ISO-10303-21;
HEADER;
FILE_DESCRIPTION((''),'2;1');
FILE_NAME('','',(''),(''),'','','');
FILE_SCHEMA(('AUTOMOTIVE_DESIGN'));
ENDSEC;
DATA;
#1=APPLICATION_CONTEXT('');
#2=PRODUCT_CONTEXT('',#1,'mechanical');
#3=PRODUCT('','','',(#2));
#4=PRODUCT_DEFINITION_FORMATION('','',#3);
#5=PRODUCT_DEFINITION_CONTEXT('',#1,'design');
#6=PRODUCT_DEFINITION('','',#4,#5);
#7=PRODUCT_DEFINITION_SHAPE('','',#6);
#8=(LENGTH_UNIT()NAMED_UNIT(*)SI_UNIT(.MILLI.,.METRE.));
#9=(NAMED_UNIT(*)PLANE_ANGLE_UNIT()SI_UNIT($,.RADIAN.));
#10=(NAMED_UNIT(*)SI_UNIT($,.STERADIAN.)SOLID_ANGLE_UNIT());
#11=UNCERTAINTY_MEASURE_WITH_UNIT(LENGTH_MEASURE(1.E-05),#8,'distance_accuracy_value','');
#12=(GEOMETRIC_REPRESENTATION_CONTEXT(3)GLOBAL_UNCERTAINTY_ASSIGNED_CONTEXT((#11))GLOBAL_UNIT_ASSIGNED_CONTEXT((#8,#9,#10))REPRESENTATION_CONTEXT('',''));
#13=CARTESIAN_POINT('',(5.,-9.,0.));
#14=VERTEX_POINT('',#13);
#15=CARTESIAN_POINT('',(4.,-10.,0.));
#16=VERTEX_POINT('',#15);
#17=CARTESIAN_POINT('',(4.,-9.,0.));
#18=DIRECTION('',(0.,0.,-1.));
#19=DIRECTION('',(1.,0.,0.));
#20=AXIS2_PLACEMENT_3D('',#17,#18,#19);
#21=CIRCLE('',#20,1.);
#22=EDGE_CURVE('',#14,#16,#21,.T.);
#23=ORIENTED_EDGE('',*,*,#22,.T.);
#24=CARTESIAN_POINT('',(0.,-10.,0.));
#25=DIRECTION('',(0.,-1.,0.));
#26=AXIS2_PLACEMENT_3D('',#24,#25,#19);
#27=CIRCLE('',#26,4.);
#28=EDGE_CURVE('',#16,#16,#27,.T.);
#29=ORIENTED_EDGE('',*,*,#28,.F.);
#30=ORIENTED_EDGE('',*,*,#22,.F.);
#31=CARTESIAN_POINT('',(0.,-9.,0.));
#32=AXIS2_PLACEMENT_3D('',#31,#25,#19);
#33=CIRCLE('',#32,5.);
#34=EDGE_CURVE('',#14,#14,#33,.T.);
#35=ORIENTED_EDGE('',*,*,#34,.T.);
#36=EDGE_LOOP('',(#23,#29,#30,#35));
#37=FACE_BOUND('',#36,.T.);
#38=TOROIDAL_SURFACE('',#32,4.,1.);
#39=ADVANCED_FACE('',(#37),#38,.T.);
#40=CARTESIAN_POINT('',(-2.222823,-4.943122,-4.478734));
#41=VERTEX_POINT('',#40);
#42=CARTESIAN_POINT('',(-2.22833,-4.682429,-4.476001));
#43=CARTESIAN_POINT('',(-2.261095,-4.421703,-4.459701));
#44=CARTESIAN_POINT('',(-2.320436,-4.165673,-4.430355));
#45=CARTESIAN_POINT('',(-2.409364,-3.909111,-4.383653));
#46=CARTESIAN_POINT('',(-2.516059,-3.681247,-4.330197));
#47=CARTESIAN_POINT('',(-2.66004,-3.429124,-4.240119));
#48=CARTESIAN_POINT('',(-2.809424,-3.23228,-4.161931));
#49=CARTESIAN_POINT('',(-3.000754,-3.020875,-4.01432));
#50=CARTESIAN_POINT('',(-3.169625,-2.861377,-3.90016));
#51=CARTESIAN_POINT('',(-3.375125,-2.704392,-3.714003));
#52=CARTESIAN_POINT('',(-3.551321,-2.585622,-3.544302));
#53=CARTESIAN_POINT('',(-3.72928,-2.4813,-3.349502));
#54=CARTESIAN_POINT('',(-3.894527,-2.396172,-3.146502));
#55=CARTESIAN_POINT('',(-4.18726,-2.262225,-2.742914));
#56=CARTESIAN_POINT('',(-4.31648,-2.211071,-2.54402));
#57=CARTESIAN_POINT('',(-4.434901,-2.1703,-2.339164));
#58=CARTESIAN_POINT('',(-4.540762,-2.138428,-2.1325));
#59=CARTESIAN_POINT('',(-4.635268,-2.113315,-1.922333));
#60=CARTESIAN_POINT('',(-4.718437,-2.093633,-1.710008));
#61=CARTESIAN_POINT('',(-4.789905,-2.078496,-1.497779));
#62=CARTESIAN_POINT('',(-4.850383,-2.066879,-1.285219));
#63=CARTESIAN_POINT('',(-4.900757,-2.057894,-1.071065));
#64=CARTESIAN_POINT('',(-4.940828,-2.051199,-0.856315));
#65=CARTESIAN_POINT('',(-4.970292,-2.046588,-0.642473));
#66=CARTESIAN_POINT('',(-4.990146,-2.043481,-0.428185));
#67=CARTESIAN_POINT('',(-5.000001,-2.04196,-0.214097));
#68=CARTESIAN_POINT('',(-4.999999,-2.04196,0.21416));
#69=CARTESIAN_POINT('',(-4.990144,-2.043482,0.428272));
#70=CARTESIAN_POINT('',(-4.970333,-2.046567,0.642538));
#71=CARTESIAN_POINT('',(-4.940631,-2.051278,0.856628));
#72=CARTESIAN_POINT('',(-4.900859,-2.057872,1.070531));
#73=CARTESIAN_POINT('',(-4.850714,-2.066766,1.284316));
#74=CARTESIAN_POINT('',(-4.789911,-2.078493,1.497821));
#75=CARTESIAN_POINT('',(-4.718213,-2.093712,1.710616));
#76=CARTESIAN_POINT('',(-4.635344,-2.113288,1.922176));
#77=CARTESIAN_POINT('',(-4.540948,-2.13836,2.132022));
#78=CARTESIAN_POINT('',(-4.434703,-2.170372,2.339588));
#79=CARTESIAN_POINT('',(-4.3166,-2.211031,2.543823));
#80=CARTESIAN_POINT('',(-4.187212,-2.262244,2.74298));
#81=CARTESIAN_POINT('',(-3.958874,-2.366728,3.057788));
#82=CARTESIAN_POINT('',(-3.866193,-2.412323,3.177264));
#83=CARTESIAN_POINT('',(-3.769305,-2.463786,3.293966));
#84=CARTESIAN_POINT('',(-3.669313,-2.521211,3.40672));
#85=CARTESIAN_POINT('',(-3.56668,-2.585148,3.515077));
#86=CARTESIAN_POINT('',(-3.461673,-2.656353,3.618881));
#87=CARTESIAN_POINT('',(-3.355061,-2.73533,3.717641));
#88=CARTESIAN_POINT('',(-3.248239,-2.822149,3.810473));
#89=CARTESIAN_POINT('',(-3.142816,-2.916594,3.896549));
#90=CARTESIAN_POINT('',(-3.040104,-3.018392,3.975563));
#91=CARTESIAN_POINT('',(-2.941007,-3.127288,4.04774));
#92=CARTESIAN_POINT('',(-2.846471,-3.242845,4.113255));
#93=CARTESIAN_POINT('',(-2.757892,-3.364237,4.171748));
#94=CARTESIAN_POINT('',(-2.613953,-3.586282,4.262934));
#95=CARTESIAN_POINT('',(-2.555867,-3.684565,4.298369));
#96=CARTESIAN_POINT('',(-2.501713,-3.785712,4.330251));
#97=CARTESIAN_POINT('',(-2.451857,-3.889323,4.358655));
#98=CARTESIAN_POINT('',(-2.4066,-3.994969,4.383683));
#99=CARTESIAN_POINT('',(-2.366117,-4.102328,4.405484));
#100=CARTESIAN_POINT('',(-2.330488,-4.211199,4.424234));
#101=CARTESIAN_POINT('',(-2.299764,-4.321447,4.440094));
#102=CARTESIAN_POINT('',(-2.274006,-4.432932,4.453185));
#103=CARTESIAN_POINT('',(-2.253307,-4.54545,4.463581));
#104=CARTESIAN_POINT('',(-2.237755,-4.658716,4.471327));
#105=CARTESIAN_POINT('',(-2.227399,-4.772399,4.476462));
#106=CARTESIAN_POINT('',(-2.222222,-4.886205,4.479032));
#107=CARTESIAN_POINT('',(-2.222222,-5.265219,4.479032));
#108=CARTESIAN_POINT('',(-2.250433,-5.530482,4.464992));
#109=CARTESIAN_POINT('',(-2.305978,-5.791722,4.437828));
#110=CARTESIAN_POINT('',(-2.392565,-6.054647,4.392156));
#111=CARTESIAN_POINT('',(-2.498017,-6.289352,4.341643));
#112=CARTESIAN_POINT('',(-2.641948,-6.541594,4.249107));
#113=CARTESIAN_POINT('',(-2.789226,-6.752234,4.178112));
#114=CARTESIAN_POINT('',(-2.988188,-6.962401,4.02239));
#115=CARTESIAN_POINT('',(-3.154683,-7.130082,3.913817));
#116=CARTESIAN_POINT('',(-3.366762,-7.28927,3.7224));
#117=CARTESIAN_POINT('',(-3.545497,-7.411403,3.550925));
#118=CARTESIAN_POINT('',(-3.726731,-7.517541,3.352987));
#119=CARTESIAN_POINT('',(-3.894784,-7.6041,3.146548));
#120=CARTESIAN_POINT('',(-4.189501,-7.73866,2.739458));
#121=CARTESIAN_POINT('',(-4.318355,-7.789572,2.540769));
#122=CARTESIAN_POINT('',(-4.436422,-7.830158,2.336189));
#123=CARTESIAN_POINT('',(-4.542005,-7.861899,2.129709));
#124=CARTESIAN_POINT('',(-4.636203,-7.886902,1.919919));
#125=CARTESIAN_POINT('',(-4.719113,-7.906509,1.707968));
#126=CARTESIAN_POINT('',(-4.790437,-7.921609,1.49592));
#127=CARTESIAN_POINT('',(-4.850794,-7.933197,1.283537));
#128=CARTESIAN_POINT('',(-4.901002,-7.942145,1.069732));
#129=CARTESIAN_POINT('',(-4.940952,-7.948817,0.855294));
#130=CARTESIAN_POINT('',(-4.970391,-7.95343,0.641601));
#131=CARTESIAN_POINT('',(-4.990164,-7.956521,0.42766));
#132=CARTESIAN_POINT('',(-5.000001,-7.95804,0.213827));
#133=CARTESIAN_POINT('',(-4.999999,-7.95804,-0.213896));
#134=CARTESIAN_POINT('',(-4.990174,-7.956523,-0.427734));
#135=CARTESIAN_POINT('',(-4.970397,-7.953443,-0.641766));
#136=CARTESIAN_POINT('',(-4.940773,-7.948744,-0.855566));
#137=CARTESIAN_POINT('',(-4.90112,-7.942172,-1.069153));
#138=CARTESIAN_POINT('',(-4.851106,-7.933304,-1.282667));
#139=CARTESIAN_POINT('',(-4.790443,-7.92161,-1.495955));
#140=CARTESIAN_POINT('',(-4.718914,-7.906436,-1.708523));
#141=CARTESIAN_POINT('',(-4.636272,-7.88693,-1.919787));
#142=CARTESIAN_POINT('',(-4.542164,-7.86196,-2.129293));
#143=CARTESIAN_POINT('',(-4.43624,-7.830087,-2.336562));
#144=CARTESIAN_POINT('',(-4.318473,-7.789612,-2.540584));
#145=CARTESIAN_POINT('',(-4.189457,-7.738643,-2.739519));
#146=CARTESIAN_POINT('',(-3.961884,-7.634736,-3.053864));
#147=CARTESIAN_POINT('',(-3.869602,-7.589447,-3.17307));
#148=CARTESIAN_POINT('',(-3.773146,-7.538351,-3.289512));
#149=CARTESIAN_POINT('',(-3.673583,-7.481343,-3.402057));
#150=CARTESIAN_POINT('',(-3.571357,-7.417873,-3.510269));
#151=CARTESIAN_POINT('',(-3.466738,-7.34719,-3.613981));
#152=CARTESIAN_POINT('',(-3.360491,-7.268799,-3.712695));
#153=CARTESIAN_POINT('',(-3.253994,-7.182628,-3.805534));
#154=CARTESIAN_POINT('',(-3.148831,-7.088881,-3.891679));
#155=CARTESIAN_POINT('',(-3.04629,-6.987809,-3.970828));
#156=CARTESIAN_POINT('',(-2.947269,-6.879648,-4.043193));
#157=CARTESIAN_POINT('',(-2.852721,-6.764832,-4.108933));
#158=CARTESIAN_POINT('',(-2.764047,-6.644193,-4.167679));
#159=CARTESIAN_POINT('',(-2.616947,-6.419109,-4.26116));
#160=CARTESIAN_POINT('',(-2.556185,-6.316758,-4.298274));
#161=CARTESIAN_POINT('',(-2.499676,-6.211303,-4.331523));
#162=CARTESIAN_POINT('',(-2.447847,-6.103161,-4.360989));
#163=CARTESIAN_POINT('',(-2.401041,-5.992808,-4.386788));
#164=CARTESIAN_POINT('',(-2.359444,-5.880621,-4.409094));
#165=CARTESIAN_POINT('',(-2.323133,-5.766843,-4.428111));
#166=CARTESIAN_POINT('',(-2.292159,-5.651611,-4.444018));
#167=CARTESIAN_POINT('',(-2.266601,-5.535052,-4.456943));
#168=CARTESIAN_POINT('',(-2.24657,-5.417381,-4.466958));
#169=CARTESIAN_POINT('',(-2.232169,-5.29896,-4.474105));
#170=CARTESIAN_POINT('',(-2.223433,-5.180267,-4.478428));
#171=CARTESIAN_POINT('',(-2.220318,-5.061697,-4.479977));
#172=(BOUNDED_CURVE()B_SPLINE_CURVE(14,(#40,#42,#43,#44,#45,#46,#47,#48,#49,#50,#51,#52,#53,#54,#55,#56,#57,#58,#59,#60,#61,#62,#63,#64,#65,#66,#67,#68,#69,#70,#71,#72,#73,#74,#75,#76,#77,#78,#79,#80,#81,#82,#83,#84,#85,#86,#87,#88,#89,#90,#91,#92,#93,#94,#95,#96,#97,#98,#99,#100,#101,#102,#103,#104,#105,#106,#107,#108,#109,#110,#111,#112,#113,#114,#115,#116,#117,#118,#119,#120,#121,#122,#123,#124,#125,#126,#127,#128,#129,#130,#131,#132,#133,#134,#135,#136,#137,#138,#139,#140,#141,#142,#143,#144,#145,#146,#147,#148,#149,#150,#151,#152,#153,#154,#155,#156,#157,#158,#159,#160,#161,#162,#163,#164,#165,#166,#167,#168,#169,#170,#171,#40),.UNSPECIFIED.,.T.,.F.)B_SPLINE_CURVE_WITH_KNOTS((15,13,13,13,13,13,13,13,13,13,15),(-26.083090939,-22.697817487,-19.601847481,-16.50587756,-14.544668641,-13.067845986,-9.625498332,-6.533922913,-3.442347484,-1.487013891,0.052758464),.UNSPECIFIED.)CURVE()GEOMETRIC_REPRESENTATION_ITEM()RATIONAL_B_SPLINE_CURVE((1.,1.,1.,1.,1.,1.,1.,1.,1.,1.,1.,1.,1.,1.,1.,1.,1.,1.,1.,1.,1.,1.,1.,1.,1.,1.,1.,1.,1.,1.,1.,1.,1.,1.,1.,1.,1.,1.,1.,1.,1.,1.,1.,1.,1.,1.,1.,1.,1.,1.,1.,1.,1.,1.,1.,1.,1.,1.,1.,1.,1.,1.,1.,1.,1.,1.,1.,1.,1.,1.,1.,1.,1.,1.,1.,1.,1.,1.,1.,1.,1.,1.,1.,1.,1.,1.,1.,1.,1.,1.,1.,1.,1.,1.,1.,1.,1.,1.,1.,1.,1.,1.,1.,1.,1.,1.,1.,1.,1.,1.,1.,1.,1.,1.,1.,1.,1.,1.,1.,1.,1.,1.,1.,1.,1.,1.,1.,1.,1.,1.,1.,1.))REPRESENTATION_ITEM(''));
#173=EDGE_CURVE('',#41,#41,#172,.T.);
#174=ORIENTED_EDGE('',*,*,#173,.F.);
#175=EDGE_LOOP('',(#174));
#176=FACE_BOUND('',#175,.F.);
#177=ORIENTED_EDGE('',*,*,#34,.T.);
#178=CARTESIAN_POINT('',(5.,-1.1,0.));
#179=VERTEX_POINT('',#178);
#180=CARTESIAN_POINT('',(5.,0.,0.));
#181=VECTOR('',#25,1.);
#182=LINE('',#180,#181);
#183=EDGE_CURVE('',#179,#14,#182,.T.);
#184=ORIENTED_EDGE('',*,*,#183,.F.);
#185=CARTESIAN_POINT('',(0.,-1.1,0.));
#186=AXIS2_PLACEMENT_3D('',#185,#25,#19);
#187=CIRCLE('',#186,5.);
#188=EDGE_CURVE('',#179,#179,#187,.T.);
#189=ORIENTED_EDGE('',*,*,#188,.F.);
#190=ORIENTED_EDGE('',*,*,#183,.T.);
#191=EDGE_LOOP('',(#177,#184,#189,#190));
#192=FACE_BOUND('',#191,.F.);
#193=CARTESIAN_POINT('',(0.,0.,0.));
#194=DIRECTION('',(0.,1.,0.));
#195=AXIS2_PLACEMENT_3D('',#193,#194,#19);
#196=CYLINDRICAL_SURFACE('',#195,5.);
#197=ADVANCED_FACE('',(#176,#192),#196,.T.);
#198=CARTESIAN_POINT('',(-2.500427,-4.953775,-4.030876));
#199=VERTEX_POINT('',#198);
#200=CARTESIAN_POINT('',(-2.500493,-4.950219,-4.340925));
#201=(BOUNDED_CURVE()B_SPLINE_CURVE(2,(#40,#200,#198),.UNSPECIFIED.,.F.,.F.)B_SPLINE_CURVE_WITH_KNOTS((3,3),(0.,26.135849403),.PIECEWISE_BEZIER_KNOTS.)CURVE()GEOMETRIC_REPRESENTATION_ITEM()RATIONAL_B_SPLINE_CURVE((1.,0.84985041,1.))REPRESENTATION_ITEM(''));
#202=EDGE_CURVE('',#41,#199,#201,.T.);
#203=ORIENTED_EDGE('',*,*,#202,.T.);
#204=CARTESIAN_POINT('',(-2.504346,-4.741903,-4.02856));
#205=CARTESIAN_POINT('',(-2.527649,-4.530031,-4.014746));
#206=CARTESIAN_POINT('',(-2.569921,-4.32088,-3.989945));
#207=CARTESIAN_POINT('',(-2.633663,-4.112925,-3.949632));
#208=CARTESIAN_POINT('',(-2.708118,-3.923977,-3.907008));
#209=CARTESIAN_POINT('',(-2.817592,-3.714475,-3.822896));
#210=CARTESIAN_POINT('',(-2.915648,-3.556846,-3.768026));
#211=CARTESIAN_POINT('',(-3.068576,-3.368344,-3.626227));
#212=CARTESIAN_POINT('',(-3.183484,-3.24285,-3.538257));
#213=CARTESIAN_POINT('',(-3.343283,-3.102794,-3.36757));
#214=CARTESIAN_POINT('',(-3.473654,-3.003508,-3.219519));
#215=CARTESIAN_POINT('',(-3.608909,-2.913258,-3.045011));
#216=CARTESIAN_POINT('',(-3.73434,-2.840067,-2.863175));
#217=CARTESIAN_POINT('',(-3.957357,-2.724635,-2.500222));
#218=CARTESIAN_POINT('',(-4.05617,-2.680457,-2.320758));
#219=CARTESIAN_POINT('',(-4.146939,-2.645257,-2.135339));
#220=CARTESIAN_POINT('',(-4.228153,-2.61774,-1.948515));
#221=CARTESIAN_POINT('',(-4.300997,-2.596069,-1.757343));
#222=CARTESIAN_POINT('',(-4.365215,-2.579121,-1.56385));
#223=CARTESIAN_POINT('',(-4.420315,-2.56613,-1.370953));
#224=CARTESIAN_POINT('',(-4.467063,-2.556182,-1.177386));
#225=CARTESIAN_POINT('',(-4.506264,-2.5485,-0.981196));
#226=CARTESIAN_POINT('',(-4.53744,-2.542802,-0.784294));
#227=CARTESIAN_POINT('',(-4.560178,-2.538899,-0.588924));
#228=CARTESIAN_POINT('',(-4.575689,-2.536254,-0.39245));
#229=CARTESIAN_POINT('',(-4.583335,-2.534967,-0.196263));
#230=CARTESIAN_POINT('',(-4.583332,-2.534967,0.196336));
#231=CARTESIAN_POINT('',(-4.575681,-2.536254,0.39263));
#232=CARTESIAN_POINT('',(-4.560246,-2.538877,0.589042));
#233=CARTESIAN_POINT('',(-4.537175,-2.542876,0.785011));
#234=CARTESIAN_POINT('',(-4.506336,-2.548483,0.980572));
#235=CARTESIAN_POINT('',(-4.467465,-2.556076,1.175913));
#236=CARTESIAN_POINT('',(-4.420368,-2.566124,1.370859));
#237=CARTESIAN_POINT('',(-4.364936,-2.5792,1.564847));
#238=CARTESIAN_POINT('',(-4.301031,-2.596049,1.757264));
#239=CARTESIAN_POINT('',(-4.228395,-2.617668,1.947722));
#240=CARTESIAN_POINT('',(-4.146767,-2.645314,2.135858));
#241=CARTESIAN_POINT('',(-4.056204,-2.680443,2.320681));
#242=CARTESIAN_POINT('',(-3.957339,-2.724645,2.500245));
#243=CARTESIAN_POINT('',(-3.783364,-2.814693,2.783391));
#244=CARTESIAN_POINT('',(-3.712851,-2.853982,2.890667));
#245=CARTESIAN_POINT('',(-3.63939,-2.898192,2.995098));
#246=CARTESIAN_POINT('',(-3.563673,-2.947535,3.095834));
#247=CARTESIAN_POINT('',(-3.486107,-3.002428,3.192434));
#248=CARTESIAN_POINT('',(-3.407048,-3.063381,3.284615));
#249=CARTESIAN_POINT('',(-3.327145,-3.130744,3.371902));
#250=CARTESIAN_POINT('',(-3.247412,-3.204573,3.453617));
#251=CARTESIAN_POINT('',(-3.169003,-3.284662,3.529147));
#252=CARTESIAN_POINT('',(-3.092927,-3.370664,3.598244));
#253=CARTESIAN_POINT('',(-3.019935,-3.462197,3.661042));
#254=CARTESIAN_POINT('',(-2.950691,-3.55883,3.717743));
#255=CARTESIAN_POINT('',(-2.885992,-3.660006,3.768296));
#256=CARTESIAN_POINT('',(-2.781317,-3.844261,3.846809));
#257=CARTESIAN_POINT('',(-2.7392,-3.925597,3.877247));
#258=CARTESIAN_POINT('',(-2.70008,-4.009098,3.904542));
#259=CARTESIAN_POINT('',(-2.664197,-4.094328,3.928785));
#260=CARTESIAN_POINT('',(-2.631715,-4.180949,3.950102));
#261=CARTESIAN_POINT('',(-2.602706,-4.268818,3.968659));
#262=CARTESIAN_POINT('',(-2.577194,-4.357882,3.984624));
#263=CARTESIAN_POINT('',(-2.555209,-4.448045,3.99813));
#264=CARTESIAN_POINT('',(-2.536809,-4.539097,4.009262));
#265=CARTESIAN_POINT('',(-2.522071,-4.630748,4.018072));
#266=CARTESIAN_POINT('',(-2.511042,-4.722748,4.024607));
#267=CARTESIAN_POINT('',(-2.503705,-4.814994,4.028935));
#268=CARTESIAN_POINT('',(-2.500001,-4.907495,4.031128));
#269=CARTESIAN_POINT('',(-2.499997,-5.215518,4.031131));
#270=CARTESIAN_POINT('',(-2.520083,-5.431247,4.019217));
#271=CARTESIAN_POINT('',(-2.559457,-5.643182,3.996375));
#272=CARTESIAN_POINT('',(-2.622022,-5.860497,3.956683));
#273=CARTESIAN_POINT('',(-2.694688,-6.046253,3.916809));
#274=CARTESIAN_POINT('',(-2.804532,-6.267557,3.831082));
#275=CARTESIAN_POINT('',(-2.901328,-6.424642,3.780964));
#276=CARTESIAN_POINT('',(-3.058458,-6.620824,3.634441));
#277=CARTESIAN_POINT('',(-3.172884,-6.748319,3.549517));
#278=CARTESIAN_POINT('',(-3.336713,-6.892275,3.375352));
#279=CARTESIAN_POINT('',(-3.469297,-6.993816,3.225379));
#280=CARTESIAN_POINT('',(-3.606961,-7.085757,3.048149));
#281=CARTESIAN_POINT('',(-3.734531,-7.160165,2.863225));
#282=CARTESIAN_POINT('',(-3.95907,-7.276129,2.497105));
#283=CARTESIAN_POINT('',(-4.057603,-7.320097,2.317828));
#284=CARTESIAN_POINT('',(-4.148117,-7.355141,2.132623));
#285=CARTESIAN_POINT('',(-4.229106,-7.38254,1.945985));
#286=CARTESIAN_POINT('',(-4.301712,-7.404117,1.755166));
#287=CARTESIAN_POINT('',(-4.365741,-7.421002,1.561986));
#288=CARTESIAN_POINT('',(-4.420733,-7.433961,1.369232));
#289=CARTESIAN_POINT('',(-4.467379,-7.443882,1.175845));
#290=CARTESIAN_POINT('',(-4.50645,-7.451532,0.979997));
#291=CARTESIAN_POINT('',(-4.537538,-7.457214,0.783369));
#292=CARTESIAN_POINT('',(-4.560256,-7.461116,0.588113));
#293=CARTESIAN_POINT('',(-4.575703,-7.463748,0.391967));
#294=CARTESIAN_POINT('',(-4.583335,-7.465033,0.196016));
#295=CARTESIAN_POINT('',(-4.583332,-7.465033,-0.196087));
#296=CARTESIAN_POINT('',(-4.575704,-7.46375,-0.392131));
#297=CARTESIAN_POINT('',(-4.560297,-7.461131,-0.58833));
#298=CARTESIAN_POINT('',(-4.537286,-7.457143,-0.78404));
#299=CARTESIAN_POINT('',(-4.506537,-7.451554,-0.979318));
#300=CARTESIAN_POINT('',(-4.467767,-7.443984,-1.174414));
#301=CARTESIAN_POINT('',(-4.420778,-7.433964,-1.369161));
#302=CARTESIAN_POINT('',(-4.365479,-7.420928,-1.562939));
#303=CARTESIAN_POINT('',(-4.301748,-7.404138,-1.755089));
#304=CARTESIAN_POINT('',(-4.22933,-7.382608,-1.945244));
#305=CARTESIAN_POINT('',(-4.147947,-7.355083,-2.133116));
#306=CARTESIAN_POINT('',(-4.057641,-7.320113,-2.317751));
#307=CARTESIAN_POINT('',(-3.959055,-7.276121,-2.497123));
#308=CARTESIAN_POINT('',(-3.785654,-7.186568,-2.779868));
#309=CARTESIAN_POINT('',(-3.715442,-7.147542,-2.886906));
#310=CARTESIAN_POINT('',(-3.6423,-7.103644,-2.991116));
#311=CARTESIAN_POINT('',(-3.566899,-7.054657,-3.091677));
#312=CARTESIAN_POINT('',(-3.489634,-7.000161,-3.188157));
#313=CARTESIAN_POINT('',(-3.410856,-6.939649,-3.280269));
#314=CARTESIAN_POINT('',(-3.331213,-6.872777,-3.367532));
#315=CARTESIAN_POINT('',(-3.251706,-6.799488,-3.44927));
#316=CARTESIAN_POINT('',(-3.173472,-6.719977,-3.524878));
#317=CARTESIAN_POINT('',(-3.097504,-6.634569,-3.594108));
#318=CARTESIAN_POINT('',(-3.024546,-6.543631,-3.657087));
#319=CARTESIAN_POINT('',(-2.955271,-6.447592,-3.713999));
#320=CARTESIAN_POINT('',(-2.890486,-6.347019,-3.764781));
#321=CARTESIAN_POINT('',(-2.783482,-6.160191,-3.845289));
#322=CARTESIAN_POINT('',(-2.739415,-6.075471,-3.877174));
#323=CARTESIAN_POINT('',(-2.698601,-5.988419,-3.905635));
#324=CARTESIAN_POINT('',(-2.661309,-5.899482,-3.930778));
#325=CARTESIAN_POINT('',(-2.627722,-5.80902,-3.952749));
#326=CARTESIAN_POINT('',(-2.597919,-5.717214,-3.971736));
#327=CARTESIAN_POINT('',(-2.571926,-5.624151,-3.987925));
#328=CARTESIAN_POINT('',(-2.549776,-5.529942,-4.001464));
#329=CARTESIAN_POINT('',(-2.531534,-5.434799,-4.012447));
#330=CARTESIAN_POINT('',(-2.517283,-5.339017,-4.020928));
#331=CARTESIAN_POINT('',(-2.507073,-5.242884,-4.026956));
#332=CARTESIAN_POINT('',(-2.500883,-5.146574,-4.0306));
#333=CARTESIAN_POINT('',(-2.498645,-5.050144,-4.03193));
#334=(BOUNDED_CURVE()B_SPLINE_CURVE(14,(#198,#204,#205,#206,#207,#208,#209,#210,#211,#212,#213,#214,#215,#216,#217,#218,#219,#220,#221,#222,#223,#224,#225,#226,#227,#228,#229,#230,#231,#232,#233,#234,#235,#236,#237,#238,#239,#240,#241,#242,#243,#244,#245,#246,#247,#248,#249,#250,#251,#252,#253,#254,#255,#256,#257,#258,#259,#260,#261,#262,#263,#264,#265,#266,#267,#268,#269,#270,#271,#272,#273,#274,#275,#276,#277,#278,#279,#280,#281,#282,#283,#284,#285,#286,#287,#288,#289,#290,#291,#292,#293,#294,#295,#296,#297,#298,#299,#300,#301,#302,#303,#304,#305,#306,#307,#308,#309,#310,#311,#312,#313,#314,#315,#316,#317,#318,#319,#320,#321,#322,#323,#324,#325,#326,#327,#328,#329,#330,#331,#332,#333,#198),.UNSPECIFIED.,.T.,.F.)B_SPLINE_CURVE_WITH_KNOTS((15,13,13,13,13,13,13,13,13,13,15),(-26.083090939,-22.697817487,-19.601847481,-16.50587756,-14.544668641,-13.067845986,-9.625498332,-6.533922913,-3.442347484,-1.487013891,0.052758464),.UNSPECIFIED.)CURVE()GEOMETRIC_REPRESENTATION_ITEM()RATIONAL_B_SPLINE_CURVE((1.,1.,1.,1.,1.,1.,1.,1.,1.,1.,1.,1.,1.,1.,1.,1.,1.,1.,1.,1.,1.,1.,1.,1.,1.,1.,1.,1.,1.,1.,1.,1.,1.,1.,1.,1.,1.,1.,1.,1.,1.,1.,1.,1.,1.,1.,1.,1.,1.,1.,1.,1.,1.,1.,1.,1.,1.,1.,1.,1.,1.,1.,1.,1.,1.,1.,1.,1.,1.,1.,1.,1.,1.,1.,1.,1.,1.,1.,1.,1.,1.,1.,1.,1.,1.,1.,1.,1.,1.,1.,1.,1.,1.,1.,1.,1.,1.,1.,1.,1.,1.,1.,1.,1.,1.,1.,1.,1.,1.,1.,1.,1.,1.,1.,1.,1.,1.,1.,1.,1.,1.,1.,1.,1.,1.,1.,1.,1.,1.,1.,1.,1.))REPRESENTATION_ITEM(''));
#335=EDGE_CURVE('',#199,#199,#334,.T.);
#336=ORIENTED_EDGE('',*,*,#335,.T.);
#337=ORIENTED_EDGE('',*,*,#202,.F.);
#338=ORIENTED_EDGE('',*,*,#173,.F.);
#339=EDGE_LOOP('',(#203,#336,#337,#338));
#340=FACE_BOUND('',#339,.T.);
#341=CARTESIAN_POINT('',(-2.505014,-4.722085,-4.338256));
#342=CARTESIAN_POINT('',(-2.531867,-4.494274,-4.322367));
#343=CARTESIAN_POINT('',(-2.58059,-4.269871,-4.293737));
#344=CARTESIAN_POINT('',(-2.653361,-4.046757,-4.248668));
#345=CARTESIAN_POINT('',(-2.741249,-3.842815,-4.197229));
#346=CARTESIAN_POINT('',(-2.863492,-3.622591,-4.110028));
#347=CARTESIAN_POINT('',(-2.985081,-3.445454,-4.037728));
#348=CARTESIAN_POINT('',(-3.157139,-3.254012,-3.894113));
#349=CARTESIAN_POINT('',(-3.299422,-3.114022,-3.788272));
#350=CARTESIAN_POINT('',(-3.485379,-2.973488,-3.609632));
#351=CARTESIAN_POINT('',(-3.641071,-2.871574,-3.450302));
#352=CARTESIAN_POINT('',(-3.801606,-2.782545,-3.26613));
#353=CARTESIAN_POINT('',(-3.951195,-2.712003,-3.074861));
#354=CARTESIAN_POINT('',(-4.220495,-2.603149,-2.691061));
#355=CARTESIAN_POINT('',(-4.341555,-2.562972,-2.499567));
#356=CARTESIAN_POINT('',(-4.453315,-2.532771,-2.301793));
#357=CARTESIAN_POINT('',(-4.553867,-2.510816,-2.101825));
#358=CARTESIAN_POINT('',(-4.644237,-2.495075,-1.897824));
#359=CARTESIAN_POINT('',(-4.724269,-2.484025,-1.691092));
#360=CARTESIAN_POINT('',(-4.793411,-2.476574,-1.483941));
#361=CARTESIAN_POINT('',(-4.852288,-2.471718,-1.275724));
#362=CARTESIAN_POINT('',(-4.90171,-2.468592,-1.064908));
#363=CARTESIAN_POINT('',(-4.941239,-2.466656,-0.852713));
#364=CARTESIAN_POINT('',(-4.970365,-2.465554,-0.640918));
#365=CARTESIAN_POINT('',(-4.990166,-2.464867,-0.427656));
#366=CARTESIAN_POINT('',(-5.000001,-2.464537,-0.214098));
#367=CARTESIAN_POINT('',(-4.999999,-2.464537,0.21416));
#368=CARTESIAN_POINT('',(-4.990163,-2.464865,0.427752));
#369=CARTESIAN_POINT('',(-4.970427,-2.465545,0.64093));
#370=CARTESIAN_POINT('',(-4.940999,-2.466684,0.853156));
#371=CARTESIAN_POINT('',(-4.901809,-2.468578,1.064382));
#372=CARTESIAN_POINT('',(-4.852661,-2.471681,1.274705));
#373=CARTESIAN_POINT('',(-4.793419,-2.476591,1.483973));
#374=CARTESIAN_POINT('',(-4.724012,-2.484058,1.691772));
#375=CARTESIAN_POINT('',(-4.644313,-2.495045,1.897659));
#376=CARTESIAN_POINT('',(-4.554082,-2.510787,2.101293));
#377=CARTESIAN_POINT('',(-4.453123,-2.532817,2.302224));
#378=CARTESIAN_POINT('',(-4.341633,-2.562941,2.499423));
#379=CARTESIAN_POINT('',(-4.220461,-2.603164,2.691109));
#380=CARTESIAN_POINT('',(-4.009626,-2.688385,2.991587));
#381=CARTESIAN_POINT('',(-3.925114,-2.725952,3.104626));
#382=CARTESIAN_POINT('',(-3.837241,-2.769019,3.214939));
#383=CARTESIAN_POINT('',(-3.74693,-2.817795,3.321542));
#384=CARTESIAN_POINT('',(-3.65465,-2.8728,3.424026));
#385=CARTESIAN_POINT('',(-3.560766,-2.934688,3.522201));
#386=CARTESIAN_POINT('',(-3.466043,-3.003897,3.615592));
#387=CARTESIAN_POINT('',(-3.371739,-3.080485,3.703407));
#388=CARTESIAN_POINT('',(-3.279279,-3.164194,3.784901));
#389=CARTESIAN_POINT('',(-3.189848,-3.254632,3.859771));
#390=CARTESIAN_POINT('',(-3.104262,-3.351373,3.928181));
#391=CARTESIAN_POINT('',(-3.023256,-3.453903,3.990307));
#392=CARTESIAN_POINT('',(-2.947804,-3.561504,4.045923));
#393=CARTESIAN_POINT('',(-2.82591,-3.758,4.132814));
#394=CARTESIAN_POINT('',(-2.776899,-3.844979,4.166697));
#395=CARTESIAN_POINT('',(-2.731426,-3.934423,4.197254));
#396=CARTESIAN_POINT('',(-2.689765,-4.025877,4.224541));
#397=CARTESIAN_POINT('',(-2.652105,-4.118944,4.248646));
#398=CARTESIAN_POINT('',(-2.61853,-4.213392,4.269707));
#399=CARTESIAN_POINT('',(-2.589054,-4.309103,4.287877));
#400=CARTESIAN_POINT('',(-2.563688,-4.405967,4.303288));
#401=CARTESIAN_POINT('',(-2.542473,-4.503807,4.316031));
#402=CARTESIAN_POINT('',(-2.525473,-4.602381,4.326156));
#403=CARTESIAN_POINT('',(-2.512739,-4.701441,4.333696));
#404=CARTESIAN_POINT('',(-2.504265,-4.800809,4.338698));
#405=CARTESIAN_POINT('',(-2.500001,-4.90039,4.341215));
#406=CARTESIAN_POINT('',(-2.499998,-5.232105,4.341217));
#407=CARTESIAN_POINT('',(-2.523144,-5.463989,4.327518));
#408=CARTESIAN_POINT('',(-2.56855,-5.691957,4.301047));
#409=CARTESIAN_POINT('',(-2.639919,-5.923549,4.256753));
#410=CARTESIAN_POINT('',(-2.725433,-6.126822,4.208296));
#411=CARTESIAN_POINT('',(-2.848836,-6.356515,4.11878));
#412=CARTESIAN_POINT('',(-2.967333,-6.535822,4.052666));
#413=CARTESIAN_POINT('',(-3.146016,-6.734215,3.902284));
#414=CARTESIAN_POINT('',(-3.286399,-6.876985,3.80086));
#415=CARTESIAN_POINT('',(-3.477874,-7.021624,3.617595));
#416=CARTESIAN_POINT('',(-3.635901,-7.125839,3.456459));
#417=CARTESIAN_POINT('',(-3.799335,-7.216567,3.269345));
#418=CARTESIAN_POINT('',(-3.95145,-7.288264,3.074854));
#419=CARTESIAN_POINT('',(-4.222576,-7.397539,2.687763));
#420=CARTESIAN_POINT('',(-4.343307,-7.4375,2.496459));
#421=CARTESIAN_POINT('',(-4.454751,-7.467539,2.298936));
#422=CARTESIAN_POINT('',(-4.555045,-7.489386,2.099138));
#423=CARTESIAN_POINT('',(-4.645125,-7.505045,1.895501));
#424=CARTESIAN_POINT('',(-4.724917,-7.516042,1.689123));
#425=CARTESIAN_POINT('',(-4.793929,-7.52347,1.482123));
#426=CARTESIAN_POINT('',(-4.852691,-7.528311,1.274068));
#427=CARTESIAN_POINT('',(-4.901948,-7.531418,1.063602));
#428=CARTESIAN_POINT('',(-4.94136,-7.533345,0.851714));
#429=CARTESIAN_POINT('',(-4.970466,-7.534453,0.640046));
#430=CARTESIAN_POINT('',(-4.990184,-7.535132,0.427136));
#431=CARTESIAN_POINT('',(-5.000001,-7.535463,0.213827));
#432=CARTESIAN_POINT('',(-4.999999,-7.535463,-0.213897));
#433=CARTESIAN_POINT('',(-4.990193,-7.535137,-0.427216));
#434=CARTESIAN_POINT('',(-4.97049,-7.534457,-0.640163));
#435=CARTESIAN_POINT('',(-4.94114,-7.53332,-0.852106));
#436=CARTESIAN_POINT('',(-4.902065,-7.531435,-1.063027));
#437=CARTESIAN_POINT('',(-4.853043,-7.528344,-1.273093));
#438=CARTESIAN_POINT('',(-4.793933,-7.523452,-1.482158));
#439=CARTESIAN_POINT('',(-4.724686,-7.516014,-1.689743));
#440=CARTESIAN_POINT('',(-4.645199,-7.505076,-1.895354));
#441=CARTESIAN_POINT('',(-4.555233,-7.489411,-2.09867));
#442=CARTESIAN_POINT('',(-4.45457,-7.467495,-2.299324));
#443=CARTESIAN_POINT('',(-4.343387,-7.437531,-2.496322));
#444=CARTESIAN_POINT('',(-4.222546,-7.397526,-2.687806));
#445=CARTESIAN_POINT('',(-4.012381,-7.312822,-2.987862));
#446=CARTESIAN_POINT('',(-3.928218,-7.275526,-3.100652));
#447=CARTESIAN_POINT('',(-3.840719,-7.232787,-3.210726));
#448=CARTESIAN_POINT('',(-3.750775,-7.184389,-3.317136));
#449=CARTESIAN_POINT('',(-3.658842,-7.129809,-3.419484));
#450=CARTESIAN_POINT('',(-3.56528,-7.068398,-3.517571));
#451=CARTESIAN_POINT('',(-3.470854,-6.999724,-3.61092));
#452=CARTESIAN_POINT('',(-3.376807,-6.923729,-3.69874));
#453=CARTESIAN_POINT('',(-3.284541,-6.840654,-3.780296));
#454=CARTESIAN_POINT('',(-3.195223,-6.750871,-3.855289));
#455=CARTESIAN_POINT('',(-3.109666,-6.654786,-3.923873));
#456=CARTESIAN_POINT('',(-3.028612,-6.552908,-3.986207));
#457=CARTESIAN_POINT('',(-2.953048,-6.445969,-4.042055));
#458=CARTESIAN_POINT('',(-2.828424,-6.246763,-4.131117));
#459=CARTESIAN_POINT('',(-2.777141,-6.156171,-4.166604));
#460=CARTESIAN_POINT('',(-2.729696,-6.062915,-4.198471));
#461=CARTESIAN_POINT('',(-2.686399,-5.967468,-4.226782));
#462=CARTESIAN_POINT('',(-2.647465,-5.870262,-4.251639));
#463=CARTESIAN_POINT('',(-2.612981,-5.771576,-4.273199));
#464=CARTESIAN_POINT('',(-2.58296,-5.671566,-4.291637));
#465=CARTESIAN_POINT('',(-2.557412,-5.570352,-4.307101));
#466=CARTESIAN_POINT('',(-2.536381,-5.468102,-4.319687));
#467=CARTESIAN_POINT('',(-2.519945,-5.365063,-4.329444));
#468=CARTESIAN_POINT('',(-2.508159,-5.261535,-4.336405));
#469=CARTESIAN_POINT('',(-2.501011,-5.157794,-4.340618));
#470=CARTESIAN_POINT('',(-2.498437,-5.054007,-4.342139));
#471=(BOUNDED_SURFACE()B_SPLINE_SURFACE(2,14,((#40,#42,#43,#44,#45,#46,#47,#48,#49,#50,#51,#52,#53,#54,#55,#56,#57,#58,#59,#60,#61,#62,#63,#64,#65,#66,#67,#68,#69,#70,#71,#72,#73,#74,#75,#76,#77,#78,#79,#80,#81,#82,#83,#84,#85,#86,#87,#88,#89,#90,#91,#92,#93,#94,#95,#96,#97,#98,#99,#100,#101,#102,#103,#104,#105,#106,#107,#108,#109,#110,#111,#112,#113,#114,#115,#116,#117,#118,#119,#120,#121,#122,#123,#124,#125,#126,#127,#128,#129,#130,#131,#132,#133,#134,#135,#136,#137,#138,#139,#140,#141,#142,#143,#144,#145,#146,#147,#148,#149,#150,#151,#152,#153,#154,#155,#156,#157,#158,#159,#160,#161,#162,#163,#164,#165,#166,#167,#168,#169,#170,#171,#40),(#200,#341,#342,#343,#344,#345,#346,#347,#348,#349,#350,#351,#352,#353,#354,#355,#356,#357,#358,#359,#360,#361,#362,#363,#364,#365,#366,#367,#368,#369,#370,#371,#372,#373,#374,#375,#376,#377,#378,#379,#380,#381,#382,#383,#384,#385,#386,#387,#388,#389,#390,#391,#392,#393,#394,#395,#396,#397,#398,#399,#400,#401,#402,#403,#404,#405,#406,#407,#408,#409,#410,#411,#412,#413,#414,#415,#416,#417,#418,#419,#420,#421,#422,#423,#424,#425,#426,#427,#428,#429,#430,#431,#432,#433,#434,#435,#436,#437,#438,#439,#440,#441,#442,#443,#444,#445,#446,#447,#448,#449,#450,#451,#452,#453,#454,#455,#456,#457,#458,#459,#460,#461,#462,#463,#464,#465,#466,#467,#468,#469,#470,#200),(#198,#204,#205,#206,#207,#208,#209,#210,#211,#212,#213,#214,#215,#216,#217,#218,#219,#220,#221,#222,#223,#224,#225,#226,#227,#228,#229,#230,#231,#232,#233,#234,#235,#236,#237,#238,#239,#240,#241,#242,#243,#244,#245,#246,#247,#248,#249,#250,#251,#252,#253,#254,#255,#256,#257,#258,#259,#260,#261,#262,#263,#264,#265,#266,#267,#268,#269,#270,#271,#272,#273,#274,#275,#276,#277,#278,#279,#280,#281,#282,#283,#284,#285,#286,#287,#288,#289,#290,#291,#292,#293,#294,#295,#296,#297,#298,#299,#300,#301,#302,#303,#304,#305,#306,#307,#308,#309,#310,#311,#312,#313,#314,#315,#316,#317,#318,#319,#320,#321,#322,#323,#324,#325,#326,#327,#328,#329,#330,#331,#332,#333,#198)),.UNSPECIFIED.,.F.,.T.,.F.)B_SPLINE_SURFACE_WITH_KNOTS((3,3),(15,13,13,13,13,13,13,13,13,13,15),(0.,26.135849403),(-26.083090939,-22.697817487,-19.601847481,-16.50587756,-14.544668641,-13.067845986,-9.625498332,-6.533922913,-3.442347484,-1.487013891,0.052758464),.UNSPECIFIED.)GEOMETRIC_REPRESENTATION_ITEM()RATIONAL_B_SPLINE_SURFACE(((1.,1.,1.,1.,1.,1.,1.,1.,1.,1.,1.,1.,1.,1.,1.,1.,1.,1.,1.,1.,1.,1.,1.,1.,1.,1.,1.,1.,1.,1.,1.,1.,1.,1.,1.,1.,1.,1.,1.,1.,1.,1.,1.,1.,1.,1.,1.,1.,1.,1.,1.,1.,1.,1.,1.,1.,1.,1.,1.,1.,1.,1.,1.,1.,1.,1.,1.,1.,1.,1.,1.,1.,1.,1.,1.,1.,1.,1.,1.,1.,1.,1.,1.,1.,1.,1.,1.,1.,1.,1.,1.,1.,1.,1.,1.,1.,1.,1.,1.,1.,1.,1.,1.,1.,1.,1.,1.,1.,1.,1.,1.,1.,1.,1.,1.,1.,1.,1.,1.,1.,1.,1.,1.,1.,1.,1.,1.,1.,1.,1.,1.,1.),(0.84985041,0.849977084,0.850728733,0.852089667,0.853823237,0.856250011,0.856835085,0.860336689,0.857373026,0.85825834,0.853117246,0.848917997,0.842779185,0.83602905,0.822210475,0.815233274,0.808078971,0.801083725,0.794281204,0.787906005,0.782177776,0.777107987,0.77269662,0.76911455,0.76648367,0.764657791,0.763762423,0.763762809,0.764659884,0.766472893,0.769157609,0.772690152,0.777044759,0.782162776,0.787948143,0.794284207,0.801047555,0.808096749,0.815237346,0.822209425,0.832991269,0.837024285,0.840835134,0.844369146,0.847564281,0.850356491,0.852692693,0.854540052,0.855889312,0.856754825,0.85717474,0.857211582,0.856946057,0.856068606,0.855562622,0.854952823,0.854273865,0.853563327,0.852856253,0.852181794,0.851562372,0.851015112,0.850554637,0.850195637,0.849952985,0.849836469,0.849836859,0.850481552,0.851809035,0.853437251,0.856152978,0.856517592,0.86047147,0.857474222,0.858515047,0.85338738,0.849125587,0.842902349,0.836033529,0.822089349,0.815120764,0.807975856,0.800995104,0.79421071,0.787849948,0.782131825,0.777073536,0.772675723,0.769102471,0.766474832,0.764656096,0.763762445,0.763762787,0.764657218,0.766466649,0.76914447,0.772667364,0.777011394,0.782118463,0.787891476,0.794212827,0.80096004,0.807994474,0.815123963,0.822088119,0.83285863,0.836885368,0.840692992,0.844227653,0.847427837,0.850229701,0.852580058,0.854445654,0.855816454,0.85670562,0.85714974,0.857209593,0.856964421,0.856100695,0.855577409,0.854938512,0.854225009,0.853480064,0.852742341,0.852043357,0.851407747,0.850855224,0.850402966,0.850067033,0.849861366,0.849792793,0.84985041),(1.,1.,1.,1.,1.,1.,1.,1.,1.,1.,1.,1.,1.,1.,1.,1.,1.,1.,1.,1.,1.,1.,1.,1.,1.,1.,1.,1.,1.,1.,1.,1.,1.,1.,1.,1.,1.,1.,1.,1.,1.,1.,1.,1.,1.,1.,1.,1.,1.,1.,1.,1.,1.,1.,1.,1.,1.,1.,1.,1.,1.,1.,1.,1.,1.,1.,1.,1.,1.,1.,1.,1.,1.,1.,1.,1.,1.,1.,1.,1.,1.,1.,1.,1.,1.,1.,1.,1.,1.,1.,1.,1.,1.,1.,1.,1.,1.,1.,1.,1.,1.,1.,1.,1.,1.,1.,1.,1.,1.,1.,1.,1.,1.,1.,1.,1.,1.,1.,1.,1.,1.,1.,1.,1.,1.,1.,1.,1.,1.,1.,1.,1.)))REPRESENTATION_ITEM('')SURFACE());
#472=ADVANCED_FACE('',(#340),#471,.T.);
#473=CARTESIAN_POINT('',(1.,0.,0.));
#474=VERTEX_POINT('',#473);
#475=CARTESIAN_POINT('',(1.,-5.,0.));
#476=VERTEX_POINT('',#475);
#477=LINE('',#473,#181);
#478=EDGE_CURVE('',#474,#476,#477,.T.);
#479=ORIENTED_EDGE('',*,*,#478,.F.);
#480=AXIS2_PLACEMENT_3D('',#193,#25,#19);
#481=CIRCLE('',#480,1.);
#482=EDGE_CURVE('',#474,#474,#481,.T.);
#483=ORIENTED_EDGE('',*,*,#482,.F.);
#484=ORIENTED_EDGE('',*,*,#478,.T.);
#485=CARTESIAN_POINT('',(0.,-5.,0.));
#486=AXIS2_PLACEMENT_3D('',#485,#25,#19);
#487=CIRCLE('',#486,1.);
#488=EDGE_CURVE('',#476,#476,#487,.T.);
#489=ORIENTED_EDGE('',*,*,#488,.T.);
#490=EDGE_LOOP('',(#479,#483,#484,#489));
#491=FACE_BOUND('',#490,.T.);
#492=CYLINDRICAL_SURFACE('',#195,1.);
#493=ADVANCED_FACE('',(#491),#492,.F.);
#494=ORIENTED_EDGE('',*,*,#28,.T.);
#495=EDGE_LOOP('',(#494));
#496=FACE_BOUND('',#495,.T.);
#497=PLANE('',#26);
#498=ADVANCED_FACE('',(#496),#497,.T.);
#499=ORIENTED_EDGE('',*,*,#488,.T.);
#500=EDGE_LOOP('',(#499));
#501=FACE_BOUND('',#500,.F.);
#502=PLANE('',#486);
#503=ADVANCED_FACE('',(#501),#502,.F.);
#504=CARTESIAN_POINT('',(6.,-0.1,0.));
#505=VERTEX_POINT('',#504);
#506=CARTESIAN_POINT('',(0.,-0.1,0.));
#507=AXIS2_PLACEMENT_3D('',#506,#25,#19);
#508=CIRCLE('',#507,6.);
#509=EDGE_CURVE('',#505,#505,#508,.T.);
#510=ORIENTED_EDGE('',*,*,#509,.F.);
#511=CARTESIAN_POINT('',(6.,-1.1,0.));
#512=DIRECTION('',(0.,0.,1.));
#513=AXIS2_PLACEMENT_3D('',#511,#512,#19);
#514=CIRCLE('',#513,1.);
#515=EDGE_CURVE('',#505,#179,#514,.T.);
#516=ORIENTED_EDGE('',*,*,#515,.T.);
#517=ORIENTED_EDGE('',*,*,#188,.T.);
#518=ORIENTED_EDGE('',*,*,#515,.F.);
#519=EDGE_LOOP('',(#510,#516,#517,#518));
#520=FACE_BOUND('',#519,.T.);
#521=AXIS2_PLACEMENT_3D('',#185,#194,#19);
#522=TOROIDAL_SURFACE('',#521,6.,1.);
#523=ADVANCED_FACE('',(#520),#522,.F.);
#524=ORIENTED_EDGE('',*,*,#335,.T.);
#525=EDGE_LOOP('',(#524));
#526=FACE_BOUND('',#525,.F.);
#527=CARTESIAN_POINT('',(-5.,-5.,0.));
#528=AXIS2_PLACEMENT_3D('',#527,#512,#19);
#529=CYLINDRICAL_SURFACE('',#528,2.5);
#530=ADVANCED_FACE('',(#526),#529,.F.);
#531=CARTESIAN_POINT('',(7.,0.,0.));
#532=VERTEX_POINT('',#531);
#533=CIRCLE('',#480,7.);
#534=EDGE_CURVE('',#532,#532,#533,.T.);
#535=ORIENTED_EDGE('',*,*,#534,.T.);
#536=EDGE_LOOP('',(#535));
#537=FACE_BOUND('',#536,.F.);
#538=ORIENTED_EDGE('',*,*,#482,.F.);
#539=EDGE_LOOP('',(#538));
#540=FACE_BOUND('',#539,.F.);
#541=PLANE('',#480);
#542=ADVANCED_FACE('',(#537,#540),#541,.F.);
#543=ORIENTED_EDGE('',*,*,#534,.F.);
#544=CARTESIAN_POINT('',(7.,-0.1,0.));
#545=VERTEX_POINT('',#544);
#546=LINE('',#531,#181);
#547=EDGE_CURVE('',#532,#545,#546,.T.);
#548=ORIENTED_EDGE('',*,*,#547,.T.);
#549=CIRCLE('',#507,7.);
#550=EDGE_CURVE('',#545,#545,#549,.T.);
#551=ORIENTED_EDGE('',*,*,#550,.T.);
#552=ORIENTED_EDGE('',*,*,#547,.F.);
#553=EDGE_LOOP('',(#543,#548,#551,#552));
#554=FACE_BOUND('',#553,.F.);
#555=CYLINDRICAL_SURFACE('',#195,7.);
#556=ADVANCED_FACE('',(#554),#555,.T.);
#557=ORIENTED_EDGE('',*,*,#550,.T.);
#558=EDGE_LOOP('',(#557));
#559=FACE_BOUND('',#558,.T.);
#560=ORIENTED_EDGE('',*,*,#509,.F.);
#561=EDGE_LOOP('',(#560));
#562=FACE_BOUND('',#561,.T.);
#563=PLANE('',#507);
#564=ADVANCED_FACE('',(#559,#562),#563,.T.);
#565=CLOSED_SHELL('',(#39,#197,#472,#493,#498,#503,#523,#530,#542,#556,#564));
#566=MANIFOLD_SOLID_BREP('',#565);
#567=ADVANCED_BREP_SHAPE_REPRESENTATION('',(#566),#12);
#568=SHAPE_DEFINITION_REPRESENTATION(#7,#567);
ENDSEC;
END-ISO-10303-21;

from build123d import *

# Parameters (mm, degrees)
F0_R     = 5
F1_DEPTH = 10
F2_R     = 2.5
F3_DEPTH = 12.5
F0_R_2   = 7
F4_DEPTH = 0.1
F5_R     = 1
F6_R     = 0.5
F7_R     = 1
F8_DEPTH = 5


with BuildPart() as f1:
    # F0 (on Front) → F1 (new body)
    with BuildSketch(Plane.XZ):
        Circle(F0_R)
    extrude(amount=F1_DEPTH)

    # F2 (on Top) → F3 (cut, symmetric)
    with BuildSketch(Plane.XY):
        with Locations((-5, -5)):
            Circle(F2_R)
    extrude(amount=F3_DEPTH, both=True, mode=Mode.SUBTRACT)

    # F0 (on Front) → F4 (join)
    with BuildSketch(Plane.XZ):
        Circle(F0_R_2)
        Circle(F0_R, mode=Mode.SUBTRACT)
    extrude(amount=F4_DEPTH)

    # F5
    f5_edges = [f1.edges().sort_by_distance(p)[0] for p in [
        (-5, -0.1, 0),
        (-5, -10, 0),
    ]]
    fillet(f5_edges, radius=F5_R)

    # F6
    f6_edges = [f1.edges().sort_by_distance(p)[0] for p in [
        (5, -5.05, 0),
        (-5, -1.1, 0),
        (-5, -9, 0),
        (-2.5, -5, 4.330127),
    ]]
    fillet(f6_edges, radius=F6_R)

    # F7 (on Front) → F8 (cut)
    with BuildSketch(Plane.XZ):
        Circle(F7_R)
    extrude(amount=F8_DEPTH, mode=Mode.SUBTRACT)


solid = f1.part
